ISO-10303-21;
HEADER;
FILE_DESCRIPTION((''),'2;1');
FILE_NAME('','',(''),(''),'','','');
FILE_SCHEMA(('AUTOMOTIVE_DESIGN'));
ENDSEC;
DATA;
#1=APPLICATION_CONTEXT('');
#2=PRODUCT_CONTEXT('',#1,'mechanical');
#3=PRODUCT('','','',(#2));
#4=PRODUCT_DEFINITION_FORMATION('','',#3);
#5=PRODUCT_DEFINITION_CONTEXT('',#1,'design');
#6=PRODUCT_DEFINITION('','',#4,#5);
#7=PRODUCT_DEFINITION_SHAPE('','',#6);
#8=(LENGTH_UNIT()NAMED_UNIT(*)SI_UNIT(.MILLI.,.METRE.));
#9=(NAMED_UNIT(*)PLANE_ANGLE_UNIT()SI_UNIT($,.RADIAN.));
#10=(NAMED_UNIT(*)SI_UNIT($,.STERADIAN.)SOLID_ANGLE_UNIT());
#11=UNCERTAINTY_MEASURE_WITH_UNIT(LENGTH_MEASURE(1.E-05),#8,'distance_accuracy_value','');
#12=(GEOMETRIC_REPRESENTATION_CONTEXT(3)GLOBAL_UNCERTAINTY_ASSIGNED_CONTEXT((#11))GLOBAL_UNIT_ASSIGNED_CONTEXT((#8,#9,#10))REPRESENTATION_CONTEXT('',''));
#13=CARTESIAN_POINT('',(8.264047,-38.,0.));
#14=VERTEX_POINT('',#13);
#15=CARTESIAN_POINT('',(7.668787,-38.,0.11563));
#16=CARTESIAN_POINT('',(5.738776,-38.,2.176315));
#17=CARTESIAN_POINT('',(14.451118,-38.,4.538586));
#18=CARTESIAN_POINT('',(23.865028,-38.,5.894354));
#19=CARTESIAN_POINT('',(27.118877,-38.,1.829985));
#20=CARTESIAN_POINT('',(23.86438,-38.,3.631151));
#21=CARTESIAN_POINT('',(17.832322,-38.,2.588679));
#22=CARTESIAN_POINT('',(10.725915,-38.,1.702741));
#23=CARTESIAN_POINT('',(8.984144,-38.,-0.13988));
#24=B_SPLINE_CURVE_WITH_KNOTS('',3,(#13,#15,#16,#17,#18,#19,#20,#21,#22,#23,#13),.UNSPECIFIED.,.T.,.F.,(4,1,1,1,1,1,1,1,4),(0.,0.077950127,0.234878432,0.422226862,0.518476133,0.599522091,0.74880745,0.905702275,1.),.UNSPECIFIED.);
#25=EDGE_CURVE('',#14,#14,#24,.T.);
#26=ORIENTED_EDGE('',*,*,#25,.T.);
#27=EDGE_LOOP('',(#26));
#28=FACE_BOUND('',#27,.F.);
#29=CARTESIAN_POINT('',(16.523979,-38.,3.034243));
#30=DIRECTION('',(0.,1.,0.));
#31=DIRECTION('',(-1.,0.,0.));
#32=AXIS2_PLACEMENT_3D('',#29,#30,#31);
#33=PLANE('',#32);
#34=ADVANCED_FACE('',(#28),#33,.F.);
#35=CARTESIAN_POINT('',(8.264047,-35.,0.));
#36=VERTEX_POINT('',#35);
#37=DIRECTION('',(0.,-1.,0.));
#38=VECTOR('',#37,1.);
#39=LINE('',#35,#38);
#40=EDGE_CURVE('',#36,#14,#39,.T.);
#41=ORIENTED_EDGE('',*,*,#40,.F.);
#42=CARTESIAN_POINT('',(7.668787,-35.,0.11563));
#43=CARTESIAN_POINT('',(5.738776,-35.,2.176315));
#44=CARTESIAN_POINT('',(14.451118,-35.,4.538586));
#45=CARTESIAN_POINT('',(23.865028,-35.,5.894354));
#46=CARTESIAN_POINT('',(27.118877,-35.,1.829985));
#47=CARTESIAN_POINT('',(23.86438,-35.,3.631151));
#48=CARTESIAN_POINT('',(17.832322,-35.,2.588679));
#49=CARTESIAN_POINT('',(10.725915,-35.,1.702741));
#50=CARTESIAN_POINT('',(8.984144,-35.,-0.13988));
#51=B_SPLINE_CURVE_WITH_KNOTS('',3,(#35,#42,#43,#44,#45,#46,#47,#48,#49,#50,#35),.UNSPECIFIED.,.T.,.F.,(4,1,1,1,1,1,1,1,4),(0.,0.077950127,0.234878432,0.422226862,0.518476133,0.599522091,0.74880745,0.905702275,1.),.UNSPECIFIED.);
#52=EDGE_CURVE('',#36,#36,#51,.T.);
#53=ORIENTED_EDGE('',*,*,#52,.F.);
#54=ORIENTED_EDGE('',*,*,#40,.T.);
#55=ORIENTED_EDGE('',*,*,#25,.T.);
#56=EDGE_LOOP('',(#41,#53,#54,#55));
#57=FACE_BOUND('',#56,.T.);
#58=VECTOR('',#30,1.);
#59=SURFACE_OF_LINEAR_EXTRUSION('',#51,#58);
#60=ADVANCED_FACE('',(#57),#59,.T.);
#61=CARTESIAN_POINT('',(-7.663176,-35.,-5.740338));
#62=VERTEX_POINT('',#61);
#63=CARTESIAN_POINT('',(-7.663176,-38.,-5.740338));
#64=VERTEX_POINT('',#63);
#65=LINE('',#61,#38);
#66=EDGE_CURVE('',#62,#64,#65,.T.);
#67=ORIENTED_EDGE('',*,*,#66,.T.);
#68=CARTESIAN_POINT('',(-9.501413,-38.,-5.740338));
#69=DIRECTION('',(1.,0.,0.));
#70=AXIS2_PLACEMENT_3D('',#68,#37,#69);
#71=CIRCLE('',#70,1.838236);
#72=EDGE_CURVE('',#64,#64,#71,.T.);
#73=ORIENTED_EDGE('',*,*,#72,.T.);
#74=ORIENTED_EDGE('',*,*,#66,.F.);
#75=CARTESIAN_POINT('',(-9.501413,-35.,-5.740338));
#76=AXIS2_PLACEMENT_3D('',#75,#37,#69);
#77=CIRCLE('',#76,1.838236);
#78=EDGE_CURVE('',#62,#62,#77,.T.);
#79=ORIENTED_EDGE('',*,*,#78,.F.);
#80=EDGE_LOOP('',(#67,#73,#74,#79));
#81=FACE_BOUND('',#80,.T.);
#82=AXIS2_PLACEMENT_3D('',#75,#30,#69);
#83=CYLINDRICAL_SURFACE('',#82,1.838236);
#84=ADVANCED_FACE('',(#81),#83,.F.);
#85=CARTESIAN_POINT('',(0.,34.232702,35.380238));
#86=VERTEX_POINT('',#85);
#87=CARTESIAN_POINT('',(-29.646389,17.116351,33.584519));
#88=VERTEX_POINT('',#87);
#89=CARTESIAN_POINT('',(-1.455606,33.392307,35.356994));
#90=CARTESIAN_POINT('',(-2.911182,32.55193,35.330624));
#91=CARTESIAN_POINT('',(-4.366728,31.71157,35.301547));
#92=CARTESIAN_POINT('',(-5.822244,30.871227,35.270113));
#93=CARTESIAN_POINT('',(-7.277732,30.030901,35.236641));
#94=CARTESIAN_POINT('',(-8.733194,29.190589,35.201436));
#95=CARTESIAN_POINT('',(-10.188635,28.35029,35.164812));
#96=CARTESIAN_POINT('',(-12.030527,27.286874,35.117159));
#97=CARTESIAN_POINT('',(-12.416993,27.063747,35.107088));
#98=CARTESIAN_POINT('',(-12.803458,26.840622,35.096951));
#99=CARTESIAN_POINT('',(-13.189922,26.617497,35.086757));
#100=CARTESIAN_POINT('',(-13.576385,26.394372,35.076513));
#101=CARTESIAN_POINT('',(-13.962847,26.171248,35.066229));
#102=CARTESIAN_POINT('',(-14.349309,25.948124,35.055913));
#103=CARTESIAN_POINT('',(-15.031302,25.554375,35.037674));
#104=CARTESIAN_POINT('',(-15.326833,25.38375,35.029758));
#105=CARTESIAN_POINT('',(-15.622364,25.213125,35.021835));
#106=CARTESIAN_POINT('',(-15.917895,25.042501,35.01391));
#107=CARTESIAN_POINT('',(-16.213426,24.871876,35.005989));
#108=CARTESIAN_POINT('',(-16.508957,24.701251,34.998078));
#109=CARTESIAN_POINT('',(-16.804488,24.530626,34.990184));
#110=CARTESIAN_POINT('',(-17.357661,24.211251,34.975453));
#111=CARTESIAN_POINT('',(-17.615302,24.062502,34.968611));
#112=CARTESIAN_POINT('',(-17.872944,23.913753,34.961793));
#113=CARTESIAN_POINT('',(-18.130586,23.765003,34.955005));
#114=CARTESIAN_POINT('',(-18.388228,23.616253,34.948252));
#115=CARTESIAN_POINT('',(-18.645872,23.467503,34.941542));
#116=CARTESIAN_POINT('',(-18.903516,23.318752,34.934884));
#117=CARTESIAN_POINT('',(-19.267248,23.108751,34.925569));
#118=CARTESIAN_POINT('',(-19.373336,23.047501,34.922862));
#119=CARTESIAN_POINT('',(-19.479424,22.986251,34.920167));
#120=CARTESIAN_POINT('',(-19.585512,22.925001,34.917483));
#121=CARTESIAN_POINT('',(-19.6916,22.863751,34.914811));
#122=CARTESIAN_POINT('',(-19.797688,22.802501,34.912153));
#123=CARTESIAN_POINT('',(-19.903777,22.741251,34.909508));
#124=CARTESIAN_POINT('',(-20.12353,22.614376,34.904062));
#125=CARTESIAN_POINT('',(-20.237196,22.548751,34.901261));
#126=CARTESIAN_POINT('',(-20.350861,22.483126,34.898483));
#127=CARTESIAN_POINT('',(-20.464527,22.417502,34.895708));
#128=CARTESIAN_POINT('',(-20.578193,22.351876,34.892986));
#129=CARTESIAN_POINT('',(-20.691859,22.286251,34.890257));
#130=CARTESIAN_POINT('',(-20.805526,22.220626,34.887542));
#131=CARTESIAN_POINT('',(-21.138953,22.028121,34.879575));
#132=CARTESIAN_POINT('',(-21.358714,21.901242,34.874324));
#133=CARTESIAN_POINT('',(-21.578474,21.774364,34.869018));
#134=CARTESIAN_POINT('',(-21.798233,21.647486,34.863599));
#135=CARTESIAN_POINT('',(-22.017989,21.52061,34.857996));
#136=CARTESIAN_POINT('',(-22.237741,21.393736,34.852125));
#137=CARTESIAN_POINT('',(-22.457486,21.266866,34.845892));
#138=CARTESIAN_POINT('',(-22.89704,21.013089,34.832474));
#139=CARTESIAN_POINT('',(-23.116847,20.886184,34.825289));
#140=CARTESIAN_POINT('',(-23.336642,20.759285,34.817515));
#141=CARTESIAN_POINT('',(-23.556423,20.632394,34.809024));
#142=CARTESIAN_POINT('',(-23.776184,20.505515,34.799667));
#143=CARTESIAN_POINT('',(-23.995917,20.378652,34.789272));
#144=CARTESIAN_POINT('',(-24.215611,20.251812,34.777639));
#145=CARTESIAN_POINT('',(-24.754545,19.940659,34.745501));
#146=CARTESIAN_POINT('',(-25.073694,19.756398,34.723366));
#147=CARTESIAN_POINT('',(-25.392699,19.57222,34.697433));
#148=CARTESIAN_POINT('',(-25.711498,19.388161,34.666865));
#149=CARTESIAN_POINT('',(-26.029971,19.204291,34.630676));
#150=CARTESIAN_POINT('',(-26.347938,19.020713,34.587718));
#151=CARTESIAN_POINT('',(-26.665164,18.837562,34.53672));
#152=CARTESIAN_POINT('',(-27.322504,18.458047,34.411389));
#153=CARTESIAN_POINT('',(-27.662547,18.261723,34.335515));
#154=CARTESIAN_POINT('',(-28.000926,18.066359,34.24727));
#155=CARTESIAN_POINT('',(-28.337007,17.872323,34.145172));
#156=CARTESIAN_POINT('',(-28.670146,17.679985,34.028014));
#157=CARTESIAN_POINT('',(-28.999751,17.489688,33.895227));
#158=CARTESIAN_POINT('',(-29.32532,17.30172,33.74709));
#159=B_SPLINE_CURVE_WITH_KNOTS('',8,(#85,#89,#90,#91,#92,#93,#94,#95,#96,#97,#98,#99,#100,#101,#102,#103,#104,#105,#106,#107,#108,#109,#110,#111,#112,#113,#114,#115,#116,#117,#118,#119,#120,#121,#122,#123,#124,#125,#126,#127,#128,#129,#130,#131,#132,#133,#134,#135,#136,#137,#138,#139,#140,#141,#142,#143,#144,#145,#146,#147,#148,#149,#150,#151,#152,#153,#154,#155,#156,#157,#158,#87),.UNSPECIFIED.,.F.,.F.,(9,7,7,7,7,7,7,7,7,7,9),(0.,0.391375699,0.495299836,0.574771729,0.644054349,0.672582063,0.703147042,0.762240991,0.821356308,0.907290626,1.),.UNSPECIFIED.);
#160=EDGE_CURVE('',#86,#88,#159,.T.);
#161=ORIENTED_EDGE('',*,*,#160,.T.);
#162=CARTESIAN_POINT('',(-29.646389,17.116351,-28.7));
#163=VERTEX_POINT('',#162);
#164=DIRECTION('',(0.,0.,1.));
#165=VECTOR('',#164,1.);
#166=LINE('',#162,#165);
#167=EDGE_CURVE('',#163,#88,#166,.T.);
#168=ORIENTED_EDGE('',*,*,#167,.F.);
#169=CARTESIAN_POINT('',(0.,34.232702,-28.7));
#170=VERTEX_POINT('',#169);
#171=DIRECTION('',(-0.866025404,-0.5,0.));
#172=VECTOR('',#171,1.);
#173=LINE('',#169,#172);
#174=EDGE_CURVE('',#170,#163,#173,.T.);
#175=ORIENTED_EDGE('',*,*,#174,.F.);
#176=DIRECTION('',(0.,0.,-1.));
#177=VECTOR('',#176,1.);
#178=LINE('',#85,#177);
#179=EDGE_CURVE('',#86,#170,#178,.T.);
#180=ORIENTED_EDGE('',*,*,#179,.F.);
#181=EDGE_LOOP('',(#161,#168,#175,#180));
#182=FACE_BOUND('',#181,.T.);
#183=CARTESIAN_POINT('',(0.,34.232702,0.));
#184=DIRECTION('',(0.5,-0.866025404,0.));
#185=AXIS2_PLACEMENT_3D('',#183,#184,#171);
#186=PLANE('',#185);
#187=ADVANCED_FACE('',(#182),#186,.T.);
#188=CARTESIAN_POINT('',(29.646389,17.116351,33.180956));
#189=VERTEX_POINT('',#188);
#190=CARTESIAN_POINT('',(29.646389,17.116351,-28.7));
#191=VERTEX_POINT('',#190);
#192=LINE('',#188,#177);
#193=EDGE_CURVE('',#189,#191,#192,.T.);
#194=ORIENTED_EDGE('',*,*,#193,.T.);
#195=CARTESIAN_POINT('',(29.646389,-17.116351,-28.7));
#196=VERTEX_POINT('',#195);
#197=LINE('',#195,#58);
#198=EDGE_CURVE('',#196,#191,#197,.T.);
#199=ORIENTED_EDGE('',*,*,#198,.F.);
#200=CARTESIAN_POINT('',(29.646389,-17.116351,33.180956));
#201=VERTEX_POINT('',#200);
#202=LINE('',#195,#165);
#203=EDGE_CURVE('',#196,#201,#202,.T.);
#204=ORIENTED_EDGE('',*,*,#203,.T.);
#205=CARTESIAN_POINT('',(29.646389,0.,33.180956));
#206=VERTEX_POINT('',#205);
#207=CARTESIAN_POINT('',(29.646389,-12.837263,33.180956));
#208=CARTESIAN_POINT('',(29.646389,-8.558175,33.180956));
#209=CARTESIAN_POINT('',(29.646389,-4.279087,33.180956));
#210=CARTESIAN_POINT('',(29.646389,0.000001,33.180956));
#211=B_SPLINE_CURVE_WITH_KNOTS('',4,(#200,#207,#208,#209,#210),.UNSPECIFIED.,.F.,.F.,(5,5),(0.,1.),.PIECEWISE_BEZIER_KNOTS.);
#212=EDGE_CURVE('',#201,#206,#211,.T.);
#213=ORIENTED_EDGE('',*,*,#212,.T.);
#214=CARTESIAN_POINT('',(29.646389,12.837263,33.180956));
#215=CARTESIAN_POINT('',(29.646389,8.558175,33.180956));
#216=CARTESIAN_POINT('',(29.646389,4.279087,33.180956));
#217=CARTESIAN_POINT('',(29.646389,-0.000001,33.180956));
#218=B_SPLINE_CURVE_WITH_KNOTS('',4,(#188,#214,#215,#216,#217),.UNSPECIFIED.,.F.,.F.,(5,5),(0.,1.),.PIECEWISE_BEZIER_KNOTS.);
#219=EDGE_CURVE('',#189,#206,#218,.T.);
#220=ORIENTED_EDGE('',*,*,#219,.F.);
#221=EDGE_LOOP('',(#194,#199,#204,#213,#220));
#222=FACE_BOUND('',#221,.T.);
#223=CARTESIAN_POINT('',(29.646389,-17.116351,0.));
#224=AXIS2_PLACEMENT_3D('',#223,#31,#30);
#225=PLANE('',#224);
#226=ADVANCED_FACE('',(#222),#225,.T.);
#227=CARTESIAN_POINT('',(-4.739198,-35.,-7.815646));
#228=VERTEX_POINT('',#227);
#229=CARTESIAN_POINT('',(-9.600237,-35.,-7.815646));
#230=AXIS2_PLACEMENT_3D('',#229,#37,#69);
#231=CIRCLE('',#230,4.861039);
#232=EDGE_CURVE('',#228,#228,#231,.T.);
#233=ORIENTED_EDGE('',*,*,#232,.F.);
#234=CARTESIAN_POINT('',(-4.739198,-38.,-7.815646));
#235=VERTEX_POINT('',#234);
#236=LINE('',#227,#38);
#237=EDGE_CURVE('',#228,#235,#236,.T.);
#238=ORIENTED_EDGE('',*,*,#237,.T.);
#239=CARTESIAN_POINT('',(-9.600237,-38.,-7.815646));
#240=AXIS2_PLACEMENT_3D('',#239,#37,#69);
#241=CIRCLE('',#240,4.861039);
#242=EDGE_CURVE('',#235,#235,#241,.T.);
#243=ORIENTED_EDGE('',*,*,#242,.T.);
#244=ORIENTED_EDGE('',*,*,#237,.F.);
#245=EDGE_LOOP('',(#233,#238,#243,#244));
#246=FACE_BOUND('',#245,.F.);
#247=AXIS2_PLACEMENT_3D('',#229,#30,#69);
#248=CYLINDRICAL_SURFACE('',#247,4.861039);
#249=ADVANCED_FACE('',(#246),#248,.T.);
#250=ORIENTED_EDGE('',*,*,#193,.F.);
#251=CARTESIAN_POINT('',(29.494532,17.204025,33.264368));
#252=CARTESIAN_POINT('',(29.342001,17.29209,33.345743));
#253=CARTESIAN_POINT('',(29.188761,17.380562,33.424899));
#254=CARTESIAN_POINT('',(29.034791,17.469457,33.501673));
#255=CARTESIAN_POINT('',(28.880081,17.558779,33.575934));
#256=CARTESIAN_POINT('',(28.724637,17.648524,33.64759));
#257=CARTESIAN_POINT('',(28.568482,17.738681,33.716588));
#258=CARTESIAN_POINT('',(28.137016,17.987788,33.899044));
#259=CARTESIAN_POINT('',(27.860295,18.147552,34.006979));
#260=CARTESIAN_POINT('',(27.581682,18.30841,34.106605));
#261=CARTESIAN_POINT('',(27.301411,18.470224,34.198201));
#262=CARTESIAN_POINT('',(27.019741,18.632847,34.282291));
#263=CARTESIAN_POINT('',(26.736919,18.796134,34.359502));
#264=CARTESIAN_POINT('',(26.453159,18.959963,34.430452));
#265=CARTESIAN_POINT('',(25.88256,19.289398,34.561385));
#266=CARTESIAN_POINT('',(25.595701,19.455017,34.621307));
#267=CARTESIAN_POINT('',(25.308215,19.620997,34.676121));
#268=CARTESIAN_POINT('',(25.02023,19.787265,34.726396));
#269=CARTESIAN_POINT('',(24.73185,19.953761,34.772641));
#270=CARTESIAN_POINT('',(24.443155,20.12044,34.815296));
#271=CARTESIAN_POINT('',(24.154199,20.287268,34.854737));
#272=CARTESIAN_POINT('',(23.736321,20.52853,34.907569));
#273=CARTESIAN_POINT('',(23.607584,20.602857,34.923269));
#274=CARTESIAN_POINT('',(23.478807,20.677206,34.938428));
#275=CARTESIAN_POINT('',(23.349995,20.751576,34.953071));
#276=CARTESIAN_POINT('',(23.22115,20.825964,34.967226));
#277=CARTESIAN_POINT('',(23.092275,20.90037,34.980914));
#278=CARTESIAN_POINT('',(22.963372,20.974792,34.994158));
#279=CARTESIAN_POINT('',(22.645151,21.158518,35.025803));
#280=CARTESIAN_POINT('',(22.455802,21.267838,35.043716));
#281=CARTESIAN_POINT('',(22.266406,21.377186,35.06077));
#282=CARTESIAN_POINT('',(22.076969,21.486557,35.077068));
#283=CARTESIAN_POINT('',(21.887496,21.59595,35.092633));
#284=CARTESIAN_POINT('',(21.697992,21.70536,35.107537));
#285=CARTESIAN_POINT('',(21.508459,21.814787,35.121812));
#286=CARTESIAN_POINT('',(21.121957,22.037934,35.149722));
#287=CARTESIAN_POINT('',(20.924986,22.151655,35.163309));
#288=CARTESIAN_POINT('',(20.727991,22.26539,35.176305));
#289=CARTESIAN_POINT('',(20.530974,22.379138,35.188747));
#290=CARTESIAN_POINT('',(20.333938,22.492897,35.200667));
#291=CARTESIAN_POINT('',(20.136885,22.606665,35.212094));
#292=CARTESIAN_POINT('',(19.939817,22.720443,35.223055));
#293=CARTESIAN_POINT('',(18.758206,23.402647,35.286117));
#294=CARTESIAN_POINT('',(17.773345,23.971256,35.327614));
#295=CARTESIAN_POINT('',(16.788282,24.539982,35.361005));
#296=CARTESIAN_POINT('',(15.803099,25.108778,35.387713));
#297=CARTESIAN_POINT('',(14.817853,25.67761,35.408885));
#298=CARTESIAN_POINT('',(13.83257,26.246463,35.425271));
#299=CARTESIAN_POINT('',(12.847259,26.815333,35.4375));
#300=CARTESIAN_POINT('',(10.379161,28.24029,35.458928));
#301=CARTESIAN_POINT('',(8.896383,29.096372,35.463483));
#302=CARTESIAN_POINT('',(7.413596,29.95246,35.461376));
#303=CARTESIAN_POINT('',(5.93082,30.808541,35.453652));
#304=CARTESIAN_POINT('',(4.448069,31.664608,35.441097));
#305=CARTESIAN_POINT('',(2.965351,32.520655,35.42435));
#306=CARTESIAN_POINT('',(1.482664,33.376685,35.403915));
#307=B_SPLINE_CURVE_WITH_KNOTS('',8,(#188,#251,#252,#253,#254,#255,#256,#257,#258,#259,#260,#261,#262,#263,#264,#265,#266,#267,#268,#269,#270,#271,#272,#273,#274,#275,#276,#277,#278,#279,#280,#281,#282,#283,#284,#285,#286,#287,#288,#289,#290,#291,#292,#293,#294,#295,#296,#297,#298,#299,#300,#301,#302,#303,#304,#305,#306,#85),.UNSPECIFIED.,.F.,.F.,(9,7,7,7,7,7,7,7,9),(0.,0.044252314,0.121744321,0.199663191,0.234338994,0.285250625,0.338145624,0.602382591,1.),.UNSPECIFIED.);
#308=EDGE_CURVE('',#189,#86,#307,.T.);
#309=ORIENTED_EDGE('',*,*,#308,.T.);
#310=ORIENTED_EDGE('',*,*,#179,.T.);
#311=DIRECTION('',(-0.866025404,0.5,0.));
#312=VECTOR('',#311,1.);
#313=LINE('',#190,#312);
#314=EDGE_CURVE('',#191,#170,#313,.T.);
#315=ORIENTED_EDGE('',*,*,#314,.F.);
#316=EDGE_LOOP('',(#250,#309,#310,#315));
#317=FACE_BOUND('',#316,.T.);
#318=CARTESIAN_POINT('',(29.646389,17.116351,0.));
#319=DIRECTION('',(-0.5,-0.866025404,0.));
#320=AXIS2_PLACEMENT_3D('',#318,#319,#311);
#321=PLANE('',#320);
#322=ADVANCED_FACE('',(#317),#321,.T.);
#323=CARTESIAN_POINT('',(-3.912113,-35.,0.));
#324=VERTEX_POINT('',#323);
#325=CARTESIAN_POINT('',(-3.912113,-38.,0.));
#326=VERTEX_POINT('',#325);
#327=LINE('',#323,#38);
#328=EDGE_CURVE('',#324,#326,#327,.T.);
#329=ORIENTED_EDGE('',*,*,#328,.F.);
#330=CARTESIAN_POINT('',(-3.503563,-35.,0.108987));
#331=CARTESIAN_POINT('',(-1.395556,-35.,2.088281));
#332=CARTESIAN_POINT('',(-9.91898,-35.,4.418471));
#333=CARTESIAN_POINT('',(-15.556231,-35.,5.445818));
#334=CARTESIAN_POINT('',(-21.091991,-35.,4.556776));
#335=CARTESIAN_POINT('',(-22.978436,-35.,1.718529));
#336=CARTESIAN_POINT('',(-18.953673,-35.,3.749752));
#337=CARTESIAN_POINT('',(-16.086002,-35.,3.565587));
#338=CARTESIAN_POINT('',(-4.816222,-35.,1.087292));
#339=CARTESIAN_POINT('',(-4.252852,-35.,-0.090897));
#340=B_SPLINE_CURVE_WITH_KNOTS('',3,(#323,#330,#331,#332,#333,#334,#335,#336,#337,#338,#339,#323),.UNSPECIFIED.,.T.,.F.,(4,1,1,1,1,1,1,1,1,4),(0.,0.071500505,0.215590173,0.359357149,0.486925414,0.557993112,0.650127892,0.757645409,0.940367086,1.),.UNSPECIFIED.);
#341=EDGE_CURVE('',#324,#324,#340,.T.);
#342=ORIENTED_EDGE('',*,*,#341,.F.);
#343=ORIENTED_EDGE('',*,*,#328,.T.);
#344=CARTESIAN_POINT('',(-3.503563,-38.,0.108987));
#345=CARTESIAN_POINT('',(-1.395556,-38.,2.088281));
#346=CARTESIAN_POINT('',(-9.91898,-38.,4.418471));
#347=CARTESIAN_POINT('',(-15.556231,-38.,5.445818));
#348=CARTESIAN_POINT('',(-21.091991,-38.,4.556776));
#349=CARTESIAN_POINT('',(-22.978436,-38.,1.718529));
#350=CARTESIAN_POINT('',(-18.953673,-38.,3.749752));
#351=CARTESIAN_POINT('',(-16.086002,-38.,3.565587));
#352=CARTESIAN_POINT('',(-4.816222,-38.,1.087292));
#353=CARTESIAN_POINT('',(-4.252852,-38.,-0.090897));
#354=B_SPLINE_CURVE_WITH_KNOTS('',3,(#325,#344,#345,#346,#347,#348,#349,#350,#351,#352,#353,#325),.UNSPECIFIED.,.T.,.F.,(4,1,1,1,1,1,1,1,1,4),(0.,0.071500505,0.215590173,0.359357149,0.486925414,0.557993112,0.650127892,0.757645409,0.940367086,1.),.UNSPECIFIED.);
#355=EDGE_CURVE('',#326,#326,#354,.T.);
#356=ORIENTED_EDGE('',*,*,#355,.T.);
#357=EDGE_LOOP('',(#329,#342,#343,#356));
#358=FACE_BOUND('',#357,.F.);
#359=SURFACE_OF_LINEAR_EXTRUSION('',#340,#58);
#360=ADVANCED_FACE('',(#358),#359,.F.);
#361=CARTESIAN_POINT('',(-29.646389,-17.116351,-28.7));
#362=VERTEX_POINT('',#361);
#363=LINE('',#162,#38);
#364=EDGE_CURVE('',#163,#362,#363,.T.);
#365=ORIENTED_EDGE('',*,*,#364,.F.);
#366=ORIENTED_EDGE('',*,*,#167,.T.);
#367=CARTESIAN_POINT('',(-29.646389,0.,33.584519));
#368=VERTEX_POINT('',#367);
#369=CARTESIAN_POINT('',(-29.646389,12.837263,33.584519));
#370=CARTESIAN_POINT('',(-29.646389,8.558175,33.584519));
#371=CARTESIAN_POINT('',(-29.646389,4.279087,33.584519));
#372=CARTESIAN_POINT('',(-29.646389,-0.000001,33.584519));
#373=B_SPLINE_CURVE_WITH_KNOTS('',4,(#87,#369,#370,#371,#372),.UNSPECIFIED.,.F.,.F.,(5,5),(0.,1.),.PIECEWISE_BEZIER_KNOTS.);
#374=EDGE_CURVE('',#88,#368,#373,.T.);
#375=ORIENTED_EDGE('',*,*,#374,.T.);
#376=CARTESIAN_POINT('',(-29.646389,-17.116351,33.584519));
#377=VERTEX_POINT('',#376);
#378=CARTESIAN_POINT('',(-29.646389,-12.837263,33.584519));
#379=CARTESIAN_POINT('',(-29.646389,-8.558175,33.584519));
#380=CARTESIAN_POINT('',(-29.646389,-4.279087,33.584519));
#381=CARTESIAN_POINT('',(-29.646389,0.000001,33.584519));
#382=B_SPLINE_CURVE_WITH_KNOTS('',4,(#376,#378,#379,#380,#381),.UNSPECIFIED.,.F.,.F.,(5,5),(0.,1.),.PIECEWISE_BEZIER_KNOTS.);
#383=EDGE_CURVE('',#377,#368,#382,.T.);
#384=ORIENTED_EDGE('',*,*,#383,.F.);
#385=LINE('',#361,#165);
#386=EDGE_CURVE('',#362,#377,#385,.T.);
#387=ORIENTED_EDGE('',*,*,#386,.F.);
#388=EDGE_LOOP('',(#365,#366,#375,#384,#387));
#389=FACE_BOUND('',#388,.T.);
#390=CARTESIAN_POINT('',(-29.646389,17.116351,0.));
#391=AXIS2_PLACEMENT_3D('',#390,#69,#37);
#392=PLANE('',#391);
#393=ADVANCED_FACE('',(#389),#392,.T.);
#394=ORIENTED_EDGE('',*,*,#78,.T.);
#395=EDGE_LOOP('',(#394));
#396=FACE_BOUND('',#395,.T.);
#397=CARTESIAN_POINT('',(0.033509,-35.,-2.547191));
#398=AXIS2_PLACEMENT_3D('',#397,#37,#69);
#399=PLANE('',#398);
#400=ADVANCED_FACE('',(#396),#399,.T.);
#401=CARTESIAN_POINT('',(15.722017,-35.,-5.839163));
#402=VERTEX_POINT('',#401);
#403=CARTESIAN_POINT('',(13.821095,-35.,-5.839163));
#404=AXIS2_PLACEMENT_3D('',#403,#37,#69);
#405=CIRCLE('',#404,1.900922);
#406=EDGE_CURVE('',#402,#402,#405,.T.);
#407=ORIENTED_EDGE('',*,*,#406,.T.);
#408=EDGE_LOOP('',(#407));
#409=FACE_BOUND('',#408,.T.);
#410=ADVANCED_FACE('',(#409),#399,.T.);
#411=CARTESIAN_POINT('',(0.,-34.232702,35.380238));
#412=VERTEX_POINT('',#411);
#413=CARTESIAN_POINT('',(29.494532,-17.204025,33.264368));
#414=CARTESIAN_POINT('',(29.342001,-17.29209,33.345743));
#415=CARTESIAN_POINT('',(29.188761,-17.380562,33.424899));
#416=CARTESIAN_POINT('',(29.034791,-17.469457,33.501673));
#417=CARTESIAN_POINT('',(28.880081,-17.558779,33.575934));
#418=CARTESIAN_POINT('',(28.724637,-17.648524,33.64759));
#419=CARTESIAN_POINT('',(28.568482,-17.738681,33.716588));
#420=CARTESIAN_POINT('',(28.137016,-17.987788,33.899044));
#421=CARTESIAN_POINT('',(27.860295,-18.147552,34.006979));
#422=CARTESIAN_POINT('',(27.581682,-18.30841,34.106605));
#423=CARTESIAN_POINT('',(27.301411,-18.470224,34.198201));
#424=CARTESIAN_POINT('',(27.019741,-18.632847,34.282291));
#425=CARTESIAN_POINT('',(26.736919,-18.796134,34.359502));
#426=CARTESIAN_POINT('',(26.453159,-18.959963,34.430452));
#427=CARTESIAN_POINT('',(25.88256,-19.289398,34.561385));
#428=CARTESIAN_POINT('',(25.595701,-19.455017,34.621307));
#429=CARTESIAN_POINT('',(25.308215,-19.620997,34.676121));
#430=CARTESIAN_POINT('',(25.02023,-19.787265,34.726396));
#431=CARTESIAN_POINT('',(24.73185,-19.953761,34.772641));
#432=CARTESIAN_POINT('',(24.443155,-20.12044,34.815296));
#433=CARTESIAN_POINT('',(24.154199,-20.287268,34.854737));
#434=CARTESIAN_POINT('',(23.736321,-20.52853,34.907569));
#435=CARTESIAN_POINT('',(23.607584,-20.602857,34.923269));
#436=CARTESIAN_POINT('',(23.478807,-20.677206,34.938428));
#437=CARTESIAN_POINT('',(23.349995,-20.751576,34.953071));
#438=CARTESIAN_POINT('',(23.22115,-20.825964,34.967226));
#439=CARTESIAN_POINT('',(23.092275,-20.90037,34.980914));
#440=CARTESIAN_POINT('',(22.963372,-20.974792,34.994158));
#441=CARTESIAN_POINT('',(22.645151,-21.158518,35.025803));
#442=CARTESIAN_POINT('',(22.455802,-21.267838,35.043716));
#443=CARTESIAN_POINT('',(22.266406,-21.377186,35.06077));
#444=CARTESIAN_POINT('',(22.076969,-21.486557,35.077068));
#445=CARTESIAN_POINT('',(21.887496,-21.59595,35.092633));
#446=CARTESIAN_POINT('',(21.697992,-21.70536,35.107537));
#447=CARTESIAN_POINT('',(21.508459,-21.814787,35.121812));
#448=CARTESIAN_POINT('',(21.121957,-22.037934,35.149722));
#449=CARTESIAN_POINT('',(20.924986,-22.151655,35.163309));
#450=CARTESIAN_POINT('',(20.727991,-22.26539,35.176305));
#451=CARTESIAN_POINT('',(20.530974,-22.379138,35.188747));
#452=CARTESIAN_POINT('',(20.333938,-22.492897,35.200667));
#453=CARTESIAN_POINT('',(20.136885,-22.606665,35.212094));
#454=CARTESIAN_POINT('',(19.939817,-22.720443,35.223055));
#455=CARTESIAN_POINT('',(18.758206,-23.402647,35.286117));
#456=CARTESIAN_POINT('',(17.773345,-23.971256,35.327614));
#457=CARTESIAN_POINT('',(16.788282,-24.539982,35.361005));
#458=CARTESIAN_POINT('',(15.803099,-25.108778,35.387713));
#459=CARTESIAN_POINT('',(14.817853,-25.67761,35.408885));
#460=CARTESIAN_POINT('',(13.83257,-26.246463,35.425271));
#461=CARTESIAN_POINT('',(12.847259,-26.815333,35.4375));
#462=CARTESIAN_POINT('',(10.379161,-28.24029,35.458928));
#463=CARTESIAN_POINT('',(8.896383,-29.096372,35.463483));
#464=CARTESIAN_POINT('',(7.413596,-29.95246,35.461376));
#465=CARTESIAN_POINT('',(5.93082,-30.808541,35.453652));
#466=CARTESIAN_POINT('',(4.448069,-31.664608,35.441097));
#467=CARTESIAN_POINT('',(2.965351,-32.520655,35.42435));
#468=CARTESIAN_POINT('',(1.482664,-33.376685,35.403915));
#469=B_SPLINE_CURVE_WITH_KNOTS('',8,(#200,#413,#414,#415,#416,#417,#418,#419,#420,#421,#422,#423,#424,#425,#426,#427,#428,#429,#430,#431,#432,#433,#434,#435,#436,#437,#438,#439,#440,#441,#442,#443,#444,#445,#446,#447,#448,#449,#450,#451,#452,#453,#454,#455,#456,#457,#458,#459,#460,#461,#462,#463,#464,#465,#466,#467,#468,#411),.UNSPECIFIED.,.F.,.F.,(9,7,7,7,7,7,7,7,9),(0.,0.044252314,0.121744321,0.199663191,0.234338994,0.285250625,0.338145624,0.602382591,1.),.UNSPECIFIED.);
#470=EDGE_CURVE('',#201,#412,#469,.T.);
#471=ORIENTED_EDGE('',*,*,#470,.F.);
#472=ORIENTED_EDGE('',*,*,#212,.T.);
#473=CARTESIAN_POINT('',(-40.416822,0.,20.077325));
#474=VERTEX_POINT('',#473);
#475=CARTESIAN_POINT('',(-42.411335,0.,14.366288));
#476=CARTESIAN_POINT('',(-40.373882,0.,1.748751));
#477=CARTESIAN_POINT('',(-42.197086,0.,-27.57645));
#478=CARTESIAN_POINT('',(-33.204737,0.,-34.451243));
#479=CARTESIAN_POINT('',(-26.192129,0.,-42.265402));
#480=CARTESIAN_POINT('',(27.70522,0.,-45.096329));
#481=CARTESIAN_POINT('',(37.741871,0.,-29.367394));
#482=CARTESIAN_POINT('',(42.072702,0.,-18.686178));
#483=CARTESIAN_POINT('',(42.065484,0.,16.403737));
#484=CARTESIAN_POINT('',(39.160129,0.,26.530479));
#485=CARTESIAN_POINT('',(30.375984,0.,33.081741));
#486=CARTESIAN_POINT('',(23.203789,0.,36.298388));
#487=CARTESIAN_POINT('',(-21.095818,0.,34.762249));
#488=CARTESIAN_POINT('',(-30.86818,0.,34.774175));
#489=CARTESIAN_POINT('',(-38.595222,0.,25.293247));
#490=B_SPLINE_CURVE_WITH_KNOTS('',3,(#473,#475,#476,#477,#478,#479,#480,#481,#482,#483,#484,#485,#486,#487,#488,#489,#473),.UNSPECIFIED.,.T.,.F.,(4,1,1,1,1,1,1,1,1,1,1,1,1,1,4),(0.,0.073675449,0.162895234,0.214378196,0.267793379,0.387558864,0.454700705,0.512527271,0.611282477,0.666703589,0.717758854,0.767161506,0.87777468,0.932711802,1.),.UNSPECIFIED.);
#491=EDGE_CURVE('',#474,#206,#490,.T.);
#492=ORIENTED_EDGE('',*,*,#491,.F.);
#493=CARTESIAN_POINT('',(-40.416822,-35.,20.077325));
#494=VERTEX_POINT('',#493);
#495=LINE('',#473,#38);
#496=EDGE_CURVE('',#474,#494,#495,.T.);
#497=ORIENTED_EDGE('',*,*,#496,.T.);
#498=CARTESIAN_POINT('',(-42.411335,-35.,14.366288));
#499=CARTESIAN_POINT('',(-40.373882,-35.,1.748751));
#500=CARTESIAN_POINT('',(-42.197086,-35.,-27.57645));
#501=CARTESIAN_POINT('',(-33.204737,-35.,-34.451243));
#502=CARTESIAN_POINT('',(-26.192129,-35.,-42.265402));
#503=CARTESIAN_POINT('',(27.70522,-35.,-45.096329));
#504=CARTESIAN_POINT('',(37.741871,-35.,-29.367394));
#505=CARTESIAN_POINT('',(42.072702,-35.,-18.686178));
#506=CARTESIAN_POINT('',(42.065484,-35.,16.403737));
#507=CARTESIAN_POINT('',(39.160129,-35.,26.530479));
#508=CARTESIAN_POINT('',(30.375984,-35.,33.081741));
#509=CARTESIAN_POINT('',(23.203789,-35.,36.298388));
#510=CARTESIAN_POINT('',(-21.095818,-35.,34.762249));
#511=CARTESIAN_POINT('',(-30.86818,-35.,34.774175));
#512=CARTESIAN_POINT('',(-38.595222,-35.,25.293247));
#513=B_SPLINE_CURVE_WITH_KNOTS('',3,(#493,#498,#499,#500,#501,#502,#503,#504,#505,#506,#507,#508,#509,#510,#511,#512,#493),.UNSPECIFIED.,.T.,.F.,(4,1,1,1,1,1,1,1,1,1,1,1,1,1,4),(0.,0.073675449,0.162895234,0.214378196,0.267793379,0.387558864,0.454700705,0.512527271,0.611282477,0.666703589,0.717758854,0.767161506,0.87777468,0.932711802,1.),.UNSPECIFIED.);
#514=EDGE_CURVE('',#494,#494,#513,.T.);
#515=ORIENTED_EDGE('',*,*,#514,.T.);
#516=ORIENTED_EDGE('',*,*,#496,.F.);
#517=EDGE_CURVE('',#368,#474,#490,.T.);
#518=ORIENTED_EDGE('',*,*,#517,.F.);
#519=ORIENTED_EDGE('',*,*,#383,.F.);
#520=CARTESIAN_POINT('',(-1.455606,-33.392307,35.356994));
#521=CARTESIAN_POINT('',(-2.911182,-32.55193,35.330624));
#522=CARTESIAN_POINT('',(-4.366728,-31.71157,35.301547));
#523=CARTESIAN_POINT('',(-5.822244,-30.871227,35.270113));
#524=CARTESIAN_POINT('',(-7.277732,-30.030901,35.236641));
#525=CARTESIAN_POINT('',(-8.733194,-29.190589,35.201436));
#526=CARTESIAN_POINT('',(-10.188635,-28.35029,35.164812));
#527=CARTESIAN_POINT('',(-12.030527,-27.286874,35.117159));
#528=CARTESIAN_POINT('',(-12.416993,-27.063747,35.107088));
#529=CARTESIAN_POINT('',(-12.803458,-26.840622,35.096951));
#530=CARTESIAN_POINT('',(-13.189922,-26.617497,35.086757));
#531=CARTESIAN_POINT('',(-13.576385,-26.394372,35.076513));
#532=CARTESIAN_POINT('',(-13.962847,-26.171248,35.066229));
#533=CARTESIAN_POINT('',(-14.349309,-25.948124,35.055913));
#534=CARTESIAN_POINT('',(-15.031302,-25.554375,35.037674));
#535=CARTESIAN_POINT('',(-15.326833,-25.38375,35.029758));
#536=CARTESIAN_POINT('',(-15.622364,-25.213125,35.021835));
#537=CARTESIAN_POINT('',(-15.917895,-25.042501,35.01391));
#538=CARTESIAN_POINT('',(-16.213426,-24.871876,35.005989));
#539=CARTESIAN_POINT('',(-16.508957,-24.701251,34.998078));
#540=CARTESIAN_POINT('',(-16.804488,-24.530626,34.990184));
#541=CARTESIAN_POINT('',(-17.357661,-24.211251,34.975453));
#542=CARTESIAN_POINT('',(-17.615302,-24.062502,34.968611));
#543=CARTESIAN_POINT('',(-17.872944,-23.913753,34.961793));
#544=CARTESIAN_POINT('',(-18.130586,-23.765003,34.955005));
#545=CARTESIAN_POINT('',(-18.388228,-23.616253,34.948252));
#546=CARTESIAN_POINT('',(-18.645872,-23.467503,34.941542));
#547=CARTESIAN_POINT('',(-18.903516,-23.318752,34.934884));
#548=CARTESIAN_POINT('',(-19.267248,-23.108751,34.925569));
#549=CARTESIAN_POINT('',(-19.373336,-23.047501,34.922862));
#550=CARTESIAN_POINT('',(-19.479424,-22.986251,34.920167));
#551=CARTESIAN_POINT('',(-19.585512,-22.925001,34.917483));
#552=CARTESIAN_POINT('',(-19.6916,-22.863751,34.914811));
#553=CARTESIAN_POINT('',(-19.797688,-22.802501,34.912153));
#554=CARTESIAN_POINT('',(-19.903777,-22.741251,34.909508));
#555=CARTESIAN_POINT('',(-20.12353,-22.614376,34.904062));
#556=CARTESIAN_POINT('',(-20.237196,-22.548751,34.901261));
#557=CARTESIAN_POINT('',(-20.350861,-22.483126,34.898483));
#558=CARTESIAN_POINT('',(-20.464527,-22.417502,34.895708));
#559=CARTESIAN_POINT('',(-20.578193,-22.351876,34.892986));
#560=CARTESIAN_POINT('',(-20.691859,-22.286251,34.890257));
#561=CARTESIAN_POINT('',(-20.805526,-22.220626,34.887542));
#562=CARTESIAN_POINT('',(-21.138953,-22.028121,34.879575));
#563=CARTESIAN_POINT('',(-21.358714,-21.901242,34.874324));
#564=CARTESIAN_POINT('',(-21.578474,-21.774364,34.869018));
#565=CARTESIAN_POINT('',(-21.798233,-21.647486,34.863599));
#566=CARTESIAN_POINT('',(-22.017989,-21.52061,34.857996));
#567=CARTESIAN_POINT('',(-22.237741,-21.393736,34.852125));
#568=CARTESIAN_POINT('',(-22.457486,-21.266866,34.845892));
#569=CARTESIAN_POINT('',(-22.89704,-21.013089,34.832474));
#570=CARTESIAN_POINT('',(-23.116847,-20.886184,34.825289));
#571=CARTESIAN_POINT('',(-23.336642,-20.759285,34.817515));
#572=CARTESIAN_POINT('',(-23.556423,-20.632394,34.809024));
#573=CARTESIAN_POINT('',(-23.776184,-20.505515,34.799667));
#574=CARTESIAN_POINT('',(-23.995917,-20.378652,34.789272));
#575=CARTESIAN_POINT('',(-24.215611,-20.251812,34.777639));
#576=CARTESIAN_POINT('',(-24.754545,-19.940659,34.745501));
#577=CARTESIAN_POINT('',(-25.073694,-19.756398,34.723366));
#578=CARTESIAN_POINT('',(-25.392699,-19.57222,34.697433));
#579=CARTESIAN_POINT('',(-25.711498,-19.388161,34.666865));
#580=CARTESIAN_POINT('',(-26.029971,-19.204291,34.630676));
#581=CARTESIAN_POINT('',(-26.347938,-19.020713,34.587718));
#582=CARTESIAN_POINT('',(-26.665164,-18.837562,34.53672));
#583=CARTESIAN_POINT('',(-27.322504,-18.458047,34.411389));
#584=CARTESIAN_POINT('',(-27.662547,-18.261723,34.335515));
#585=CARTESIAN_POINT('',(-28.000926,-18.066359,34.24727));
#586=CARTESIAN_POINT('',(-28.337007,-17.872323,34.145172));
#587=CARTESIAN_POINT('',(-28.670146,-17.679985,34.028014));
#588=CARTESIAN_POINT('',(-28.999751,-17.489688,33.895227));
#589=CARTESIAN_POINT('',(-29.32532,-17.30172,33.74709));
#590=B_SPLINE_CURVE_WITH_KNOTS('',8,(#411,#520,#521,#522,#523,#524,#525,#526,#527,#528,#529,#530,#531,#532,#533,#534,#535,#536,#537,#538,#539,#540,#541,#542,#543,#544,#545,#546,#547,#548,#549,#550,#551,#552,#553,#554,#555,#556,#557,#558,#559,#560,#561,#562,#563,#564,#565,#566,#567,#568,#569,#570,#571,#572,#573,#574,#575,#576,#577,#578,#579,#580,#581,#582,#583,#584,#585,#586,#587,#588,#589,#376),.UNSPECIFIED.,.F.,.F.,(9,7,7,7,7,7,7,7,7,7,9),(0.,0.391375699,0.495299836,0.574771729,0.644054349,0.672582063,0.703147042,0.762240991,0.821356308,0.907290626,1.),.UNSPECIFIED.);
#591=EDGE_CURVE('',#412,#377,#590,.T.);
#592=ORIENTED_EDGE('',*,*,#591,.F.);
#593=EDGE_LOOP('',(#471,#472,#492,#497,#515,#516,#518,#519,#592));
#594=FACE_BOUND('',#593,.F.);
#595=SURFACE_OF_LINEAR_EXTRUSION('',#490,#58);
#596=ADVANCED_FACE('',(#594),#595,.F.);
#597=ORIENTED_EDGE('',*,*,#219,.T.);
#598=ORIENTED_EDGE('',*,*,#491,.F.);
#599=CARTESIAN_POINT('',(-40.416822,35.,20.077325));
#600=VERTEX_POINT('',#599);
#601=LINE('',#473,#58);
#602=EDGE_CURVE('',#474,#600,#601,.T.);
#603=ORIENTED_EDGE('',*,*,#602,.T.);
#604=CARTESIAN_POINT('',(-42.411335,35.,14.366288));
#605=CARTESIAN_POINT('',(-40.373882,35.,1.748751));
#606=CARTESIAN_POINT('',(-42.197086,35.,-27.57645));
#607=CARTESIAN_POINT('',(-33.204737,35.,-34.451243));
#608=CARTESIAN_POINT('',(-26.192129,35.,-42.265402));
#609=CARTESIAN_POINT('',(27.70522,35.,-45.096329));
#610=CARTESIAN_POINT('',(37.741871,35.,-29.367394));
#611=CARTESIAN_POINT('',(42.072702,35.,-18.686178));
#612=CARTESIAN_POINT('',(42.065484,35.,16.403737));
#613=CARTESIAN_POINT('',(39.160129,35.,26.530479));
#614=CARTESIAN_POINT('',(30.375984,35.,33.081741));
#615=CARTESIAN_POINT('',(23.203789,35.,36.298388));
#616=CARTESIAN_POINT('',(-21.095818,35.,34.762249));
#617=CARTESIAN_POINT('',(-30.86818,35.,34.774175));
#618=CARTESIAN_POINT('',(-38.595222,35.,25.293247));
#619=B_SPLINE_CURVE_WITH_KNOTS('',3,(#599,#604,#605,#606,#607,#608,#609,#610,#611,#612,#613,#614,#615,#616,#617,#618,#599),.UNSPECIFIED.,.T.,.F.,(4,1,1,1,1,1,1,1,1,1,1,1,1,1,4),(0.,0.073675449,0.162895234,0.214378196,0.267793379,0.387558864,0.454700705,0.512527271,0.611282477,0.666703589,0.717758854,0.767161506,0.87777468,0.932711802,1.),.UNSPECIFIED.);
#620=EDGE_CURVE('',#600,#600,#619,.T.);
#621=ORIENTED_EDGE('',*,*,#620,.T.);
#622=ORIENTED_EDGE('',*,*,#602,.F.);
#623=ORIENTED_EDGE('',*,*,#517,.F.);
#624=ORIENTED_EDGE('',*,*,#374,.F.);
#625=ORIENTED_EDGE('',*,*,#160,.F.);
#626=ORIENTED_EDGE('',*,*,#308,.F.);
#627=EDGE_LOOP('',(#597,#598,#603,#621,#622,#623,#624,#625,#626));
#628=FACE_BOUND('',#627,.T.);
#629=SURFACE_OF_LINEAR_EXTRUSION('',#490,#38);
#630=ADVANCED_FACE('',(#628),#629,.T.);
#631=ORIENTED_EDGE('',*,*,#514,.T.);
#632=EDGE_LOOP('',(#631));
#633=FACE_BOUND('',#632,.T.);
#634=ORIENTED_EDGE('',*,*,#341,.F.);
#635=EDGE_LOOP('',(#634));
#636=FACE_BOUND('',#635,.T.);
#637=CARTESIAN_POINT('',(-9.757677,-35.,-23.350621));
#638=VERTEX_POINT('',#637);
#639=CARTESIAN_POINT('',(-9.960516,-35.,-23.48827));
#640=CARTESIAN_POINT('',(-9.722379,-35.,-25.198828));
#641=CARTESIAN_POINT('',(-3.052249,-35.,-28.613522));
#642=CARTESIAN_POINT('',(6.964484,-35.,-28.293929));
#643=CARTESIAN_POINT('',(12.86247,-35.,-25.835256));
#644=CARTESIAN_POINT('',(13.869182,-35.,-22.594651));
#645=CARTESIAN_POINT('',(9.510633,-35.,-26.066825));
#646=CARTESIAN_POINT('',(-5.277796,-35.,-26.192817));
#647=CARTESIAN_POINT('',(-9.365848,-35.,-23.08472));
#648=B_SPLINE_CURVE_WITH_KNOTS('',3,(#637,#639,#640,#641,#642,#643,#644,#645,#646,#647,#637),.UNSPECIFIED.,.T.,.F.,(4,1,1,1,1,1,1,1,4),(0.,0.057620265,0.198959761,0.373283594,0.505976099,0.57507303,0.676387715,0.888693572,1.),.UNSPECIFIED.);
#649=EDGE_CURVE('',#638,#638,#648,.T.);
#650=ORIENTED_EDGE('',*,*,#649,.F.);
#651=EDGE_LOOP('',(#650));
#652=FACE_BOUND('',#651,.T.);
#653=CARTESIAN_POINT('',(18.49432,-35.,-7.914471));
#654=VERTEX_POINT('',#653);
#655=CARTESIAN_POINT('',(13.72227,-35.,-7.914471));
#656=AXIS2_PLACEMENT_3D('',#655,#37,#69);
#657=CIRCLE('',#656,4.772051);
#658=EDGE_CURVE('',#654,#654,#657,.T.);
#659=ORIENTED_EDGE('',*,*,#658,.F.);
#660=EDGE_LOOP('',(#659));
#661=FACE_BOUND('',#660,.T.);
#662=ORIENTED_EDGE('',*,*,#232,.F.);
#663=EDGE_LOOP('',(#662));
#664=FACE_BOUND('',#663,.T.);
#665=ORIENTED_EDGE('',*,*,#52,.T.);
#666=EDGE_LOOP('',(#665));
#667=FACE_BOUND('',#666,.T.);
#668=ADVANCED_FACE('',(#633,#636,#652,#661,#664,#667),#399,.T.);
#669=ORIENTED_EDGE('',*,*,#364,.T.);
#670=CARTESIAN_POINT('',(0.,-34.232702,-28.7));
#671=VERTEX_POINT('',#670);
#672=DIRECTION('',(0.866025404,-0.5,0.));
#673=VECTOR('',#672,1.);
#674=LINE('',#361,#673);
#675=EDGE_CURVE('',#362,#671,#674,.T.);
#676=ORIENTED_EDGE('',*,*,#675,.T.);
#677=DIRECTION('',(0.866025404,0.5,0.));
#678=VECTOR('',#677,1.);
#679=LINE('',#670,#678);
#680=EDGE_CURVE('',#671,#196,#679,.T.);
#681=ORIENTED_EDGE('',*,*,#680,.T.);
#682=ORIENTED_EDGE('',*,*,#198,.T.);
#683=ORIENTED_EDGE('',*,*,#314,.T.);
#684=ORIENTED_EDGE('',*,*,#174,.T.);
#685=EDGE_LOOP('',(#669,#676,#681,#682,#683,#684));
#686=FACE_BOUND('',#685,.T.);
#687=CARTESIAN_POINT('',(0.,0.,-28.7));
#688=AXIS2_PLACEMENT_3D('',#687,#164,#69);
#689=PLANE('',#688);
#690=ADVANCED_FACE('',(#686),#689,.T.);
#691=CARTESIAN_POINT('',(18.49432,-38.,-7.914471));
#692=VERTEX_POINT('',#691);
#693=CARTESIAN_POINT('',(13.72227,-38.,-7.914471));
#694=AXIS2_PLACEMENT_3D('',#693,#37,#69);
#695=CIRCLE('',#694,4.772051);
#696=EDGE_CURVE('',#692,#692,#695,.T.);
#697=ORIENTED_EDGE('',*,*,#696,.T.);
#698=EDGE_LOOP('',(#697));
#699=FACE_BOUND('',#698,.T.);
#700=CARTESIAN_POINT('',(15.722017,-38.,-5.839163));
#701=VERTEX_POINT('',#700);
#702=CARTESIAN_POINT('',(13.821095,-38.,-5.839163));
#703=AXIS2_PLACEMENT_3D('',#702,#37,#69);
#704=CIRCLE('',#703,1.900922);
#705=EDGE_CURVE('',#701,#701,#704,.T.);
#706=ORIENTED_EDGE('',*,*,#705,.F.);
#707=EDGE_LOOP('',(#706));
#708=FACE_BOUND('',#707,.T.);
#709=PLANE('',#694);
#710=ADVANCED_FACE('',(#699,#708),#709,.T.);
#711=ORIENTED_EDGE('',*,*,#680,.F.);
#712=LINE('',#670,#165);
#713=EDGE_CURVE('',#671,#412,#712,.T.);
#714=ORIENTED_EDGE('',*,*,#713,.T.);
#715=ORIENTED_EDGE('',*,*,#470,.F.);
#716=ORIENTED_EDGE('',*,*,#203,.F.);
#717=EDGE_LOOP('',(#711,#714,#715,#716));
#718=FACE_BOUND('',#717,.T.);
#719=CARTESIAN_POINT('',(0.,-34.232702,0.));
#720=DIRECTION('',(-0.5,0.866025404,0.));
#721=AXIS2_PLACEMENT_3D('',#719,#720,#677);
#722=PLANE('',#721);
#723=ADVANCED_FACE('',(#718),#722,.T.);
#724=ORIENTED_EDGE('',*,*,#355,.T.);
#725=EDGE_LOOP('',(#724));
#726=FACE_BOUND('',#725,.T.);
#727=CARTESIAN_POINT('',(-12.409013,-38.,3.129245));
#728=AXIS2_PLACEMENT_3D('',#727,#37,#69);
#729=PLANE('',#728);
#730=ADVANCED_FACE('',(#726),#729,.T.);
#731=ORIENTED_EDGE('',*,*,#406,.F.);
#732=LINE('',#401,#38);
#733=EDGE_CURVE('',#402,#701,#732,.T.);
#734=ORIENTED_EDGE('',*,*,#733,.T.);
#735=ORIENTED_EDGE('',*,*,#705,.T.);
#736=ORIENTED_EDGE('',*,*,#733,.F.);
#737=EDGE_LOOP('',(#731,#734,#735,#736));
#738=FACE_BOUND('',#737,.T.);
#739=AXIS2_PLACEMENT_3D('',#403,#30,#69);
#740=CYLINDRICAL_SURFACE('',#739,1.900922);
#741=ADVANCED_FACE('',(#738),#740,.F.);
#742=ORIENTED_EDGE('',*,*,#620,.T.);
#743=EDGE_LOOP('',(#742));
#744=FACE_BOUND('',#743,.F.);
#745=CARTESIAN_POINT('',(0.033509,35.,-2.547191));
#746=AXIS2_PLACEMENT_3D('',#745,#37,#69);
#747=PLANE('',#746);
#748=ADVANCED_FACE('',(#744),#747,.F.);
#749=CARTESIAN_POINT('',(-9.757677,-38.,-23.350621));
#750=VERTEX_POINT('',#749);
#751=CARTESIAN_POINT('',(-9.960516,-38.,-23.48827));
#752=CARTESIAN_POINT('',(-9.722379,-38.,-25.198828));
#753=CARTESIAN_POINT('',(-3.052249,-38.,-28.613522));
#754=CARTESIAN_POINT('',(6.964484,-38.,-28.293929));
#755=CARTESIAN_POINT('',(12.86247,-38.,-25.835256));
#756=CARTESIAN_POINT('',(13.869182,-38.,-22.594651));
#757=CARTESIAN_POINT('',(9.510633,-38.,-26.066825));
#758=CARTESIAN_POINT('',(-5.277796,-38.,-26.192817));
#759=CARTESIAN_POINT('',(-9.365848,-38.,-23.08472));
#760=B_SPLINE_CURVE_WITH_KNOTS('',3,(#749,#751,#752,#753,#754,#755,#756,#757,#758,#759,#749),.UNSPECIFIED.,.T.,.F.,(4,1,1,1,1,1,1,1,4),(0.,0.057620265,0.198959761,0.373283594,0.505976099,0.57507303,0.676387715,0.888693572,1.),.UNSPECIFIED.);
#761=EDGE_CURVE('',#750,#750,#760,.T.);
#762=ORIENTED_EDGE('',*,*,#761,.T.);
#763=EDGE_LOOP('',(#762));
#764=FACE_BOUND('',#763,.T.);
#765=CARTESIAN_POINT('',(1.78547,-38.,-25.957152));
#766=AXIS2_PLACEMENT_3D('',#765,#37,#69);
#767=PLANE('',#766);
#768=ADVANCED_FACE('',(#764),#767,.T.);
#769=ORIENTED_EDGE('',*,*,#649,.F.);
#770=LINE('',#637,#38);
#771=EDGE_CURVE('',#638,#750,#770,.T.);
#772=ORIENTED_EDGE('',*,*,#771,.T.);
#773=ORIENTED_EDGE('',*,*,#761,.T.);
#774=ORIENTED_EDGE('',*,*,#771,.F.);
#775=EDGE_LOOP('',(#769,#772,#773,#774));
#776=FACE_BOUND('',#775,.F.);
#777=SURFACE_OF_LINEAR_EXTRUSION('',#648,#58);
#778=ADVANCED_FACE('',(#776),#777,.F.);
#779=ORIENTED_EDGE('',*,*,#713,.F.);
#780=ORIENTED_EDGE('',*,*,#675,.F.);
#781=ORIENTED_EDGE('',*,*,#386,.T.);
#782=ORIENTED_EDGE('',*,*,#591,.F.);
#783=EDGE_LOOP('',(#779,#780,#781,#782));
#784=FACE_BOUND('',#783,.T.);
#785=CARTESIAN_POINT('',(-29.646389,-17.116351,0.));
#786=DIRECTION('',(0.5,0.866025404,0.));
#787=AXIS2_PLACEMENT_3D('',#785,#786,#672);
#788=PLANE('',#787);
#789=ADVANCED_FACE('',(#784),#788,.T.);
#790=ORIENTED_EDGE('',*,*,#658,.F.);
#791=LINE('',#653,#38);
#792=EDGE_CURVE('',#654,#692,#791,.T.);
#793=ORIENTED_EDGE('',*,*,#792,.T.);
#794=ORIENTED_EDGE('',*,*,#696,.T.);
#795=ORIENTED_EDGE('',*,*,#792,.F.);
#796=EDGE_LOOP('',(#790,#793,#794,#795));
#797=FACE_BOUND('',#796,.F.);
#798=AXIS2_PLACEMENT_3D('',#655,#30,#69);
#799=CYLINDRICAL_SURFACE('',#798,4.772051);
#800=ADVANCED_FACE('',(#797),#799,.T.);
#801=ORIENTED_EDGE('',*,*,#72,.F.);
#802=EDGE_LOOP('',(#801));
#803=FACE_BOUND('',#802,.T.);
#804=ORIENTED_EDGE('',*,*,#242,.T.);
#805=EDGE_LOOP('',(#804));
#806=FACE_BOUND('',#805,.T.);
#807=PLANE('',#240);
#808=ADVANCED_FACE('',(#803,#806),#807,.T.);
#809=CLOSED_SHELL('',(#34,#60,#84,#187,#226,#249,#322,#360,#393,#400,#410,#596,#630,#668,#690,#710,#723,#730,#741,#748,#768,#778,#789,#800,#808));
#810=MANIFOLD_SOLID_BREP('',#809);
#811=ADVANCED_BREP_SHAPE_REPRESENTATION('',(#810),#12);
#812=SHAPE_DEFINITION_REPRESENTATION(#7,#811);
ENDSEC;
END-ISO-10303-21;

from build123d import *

# Parameters (mm, degrees)
F1_DEPTH = 35
F2_R     = 4.8610392229
F2_R_2   = 1.838236021
F2_R_3   = 4.772050611
F2_R_4   = 1.9009218094
F3_DEPTH = 3
F4_DEPTH = 3
F6_DEPTH = 35.4595478578
F7_DEPTH = 28.7


with BuildPart() as f1:
    # F0 (on Front) → F1 (new body, symmetric)
    with BuildSketch(Plane.XZ):
        with BuildLine():
            add(Edge.make_bspline(
                [(-40.4168218374, 20.0773254037), (-42.4113345807, 14.3662884297), (-40.3738816159, 1.7487507243), (-42.1970856863, -27.5764501107), (-33.2047367114, -34.4512429341), (-26.1921286077, -42.2654018933), (27.7052199787, -45.0963290959), (37.7418711229, -29.3673942219), (42.0727024414, -18.6861779492), (42.0654836309, 16.4037373009), (39.1601287392, 26.5304793905), (30.3759843175, 33.0817413309), (23.2037888263, 36.2983875654), (-21.0958175045, 34.7622490265), (-30.868179883, 34.7741750775), (-38.5952222365, 25.2932472913), (-40.4168218374, 20.0773254037)],
                knots=[0, 0, 0, 0, 0.073675449, 0.1628952339, 0.2143781961, 0.2677933793, 0.3875588644, 0.4547007052, 0.5125272715, 0.6112824772, 0.666703589, 0.7177588542, 0.7671615062, 0.8777746801, 0.9327118019, 1, 1, 1, 1], degree=3))
        make_face()
    extrude(amount=F1_DEPTH, both=True)

    # F2 (on face) → F3 (join)
    with BuildSketch(Plane.XZ.offset(35)):
        with BuildLine():
            add(Edge.make_bspline(
                [(-3.9121131413, 0), (-3.5035632505, 0.1089868916), (-1.3955562023, 2.0882806418), (-9.9189796979, 4.4184709443), (-15.5562312323, 5.4458179162), (-21.0919908815, 4.55677647), (-22.9784363782, 1.7185286296), (-18.9536727642, 3.749752001), (-16.0860017394, 3.5655867053), (-4.8162217519, 1.0872921521), (-4.2528522806, -0.0908973432), (-3.9121131413, 0)],
                knots=[0, 0, 0, 0, 0.0715005048, 0.2155901733, 0.3593571485, 0.4869254136, 0.5579931122, 0.6501278915, 0.757645409, 0.9403670861, 1, 1, 1, 1], degree=3))
        make_face()
        with BuildLine():
            add(Edge.make_bspline(
                [(8.2640470937, 0), (7.6687871147, 0.1156302484), (5.7387761569, 2.1763153929), (14.4511176557, 4.5385856935), (23.8650284329, 5.8943537048), (27.1188768684, 1.8299851377), (23.8643798858, 3.6311509266), (17.8323216425, 2.5886791111), (10.7259150989, 1.7027405399), (8.9841442151, -0.1398800725), (8.2640470937, 0)],
                knots=[0, 0, 0, 0, 0.0779501266, 0.2348784316, 0.4222268616, 0.5184761333, 0.5995220913, 0.7488074501, 0.9057022751, 1, 1, 1, 1], degree=3))
        make_face()
        with Locations((-9.6002370119, -7.8156460077)):
            Circle(F2_R)
        with Locations((-9.5014125109, -5.7403384708)):
            Circle(F2_R_2, mode=Mode.SUBTRACT)
        with Locations((13.7222697958, -7.9144705087)):
            Circle(F2_R_3)
        with Locations((13.8210952282, -5.8391625062)):
            Circle(F2_R_4, mode=Mode.SUBTRACT)
        with BuildLine():
            add(Edge.make_bspline(
                [(-9.7576770931, -23.3506206423), (-9.9605160881, -23.4882702074), (-9.722379447, -25.1988281378), (-3.0522488083, -28.6135222697), (6.9644841934, -28.2939285689), (12.862469754, -25.8352561044), (13.8691820976, -22.5946512704), (9.5106330697, -26.066825488), (-5.2777963777, -26.1928172327), (-9.3658482115, -23.0847197234), (-9.7576770931, -23.3506206423)],
                knots=[0, 0, 0, 0, 0.0576202648, 0.1989597612, 0.3732835941, 0.5059760991, 0.5750730299, 0.6763877149, 0.8886935723, 1, 1, 1, 1], degree=3))
        make_face()
    extrude(amount=F3_DEPTH)

    # F4 (add): faces of the model
    f4_faces = [f1.faces().sort_by_distance(p)[0] for p in [
        (-9.5014125109, -35, -5.7403384708),
        (13.8210952282, -35, -5.8391625062),
    ]]
    extrude(f4_faces, amount=-F4_DEPTH)

    # F5 (on Top) → F6 (cut, through all)
    with BuildSketch(Plane.XY):
        Polygon((-29.6463891864, 17.1163507773), (-29.6463891864, -17.1163507773), (0, -34.2327015545), (29.6463891864, -17.1163507773), (29.6463891864, 17.1163507773), (0, 34.2327015545), align=None)
    extrude(amount=F6_DEPTH, mode=Mode.SUBTRACT)

    # F5 (on Top) → F7 (cut)
    with BuildSketch(Plane.XY):
        Polygon((-29.6463891864, 17.1163507773), (-29.6463891864, -17.1163507773), (0, -34.2327015545), (29.6463891864, -17.1163507773), (29.6463891864, 17.1163507773), (0, 34.2327015545), align=None)
    extrude(amount=-F7_DEPTH, mode=Mode.SUBTRACT)


solid = f1.part
